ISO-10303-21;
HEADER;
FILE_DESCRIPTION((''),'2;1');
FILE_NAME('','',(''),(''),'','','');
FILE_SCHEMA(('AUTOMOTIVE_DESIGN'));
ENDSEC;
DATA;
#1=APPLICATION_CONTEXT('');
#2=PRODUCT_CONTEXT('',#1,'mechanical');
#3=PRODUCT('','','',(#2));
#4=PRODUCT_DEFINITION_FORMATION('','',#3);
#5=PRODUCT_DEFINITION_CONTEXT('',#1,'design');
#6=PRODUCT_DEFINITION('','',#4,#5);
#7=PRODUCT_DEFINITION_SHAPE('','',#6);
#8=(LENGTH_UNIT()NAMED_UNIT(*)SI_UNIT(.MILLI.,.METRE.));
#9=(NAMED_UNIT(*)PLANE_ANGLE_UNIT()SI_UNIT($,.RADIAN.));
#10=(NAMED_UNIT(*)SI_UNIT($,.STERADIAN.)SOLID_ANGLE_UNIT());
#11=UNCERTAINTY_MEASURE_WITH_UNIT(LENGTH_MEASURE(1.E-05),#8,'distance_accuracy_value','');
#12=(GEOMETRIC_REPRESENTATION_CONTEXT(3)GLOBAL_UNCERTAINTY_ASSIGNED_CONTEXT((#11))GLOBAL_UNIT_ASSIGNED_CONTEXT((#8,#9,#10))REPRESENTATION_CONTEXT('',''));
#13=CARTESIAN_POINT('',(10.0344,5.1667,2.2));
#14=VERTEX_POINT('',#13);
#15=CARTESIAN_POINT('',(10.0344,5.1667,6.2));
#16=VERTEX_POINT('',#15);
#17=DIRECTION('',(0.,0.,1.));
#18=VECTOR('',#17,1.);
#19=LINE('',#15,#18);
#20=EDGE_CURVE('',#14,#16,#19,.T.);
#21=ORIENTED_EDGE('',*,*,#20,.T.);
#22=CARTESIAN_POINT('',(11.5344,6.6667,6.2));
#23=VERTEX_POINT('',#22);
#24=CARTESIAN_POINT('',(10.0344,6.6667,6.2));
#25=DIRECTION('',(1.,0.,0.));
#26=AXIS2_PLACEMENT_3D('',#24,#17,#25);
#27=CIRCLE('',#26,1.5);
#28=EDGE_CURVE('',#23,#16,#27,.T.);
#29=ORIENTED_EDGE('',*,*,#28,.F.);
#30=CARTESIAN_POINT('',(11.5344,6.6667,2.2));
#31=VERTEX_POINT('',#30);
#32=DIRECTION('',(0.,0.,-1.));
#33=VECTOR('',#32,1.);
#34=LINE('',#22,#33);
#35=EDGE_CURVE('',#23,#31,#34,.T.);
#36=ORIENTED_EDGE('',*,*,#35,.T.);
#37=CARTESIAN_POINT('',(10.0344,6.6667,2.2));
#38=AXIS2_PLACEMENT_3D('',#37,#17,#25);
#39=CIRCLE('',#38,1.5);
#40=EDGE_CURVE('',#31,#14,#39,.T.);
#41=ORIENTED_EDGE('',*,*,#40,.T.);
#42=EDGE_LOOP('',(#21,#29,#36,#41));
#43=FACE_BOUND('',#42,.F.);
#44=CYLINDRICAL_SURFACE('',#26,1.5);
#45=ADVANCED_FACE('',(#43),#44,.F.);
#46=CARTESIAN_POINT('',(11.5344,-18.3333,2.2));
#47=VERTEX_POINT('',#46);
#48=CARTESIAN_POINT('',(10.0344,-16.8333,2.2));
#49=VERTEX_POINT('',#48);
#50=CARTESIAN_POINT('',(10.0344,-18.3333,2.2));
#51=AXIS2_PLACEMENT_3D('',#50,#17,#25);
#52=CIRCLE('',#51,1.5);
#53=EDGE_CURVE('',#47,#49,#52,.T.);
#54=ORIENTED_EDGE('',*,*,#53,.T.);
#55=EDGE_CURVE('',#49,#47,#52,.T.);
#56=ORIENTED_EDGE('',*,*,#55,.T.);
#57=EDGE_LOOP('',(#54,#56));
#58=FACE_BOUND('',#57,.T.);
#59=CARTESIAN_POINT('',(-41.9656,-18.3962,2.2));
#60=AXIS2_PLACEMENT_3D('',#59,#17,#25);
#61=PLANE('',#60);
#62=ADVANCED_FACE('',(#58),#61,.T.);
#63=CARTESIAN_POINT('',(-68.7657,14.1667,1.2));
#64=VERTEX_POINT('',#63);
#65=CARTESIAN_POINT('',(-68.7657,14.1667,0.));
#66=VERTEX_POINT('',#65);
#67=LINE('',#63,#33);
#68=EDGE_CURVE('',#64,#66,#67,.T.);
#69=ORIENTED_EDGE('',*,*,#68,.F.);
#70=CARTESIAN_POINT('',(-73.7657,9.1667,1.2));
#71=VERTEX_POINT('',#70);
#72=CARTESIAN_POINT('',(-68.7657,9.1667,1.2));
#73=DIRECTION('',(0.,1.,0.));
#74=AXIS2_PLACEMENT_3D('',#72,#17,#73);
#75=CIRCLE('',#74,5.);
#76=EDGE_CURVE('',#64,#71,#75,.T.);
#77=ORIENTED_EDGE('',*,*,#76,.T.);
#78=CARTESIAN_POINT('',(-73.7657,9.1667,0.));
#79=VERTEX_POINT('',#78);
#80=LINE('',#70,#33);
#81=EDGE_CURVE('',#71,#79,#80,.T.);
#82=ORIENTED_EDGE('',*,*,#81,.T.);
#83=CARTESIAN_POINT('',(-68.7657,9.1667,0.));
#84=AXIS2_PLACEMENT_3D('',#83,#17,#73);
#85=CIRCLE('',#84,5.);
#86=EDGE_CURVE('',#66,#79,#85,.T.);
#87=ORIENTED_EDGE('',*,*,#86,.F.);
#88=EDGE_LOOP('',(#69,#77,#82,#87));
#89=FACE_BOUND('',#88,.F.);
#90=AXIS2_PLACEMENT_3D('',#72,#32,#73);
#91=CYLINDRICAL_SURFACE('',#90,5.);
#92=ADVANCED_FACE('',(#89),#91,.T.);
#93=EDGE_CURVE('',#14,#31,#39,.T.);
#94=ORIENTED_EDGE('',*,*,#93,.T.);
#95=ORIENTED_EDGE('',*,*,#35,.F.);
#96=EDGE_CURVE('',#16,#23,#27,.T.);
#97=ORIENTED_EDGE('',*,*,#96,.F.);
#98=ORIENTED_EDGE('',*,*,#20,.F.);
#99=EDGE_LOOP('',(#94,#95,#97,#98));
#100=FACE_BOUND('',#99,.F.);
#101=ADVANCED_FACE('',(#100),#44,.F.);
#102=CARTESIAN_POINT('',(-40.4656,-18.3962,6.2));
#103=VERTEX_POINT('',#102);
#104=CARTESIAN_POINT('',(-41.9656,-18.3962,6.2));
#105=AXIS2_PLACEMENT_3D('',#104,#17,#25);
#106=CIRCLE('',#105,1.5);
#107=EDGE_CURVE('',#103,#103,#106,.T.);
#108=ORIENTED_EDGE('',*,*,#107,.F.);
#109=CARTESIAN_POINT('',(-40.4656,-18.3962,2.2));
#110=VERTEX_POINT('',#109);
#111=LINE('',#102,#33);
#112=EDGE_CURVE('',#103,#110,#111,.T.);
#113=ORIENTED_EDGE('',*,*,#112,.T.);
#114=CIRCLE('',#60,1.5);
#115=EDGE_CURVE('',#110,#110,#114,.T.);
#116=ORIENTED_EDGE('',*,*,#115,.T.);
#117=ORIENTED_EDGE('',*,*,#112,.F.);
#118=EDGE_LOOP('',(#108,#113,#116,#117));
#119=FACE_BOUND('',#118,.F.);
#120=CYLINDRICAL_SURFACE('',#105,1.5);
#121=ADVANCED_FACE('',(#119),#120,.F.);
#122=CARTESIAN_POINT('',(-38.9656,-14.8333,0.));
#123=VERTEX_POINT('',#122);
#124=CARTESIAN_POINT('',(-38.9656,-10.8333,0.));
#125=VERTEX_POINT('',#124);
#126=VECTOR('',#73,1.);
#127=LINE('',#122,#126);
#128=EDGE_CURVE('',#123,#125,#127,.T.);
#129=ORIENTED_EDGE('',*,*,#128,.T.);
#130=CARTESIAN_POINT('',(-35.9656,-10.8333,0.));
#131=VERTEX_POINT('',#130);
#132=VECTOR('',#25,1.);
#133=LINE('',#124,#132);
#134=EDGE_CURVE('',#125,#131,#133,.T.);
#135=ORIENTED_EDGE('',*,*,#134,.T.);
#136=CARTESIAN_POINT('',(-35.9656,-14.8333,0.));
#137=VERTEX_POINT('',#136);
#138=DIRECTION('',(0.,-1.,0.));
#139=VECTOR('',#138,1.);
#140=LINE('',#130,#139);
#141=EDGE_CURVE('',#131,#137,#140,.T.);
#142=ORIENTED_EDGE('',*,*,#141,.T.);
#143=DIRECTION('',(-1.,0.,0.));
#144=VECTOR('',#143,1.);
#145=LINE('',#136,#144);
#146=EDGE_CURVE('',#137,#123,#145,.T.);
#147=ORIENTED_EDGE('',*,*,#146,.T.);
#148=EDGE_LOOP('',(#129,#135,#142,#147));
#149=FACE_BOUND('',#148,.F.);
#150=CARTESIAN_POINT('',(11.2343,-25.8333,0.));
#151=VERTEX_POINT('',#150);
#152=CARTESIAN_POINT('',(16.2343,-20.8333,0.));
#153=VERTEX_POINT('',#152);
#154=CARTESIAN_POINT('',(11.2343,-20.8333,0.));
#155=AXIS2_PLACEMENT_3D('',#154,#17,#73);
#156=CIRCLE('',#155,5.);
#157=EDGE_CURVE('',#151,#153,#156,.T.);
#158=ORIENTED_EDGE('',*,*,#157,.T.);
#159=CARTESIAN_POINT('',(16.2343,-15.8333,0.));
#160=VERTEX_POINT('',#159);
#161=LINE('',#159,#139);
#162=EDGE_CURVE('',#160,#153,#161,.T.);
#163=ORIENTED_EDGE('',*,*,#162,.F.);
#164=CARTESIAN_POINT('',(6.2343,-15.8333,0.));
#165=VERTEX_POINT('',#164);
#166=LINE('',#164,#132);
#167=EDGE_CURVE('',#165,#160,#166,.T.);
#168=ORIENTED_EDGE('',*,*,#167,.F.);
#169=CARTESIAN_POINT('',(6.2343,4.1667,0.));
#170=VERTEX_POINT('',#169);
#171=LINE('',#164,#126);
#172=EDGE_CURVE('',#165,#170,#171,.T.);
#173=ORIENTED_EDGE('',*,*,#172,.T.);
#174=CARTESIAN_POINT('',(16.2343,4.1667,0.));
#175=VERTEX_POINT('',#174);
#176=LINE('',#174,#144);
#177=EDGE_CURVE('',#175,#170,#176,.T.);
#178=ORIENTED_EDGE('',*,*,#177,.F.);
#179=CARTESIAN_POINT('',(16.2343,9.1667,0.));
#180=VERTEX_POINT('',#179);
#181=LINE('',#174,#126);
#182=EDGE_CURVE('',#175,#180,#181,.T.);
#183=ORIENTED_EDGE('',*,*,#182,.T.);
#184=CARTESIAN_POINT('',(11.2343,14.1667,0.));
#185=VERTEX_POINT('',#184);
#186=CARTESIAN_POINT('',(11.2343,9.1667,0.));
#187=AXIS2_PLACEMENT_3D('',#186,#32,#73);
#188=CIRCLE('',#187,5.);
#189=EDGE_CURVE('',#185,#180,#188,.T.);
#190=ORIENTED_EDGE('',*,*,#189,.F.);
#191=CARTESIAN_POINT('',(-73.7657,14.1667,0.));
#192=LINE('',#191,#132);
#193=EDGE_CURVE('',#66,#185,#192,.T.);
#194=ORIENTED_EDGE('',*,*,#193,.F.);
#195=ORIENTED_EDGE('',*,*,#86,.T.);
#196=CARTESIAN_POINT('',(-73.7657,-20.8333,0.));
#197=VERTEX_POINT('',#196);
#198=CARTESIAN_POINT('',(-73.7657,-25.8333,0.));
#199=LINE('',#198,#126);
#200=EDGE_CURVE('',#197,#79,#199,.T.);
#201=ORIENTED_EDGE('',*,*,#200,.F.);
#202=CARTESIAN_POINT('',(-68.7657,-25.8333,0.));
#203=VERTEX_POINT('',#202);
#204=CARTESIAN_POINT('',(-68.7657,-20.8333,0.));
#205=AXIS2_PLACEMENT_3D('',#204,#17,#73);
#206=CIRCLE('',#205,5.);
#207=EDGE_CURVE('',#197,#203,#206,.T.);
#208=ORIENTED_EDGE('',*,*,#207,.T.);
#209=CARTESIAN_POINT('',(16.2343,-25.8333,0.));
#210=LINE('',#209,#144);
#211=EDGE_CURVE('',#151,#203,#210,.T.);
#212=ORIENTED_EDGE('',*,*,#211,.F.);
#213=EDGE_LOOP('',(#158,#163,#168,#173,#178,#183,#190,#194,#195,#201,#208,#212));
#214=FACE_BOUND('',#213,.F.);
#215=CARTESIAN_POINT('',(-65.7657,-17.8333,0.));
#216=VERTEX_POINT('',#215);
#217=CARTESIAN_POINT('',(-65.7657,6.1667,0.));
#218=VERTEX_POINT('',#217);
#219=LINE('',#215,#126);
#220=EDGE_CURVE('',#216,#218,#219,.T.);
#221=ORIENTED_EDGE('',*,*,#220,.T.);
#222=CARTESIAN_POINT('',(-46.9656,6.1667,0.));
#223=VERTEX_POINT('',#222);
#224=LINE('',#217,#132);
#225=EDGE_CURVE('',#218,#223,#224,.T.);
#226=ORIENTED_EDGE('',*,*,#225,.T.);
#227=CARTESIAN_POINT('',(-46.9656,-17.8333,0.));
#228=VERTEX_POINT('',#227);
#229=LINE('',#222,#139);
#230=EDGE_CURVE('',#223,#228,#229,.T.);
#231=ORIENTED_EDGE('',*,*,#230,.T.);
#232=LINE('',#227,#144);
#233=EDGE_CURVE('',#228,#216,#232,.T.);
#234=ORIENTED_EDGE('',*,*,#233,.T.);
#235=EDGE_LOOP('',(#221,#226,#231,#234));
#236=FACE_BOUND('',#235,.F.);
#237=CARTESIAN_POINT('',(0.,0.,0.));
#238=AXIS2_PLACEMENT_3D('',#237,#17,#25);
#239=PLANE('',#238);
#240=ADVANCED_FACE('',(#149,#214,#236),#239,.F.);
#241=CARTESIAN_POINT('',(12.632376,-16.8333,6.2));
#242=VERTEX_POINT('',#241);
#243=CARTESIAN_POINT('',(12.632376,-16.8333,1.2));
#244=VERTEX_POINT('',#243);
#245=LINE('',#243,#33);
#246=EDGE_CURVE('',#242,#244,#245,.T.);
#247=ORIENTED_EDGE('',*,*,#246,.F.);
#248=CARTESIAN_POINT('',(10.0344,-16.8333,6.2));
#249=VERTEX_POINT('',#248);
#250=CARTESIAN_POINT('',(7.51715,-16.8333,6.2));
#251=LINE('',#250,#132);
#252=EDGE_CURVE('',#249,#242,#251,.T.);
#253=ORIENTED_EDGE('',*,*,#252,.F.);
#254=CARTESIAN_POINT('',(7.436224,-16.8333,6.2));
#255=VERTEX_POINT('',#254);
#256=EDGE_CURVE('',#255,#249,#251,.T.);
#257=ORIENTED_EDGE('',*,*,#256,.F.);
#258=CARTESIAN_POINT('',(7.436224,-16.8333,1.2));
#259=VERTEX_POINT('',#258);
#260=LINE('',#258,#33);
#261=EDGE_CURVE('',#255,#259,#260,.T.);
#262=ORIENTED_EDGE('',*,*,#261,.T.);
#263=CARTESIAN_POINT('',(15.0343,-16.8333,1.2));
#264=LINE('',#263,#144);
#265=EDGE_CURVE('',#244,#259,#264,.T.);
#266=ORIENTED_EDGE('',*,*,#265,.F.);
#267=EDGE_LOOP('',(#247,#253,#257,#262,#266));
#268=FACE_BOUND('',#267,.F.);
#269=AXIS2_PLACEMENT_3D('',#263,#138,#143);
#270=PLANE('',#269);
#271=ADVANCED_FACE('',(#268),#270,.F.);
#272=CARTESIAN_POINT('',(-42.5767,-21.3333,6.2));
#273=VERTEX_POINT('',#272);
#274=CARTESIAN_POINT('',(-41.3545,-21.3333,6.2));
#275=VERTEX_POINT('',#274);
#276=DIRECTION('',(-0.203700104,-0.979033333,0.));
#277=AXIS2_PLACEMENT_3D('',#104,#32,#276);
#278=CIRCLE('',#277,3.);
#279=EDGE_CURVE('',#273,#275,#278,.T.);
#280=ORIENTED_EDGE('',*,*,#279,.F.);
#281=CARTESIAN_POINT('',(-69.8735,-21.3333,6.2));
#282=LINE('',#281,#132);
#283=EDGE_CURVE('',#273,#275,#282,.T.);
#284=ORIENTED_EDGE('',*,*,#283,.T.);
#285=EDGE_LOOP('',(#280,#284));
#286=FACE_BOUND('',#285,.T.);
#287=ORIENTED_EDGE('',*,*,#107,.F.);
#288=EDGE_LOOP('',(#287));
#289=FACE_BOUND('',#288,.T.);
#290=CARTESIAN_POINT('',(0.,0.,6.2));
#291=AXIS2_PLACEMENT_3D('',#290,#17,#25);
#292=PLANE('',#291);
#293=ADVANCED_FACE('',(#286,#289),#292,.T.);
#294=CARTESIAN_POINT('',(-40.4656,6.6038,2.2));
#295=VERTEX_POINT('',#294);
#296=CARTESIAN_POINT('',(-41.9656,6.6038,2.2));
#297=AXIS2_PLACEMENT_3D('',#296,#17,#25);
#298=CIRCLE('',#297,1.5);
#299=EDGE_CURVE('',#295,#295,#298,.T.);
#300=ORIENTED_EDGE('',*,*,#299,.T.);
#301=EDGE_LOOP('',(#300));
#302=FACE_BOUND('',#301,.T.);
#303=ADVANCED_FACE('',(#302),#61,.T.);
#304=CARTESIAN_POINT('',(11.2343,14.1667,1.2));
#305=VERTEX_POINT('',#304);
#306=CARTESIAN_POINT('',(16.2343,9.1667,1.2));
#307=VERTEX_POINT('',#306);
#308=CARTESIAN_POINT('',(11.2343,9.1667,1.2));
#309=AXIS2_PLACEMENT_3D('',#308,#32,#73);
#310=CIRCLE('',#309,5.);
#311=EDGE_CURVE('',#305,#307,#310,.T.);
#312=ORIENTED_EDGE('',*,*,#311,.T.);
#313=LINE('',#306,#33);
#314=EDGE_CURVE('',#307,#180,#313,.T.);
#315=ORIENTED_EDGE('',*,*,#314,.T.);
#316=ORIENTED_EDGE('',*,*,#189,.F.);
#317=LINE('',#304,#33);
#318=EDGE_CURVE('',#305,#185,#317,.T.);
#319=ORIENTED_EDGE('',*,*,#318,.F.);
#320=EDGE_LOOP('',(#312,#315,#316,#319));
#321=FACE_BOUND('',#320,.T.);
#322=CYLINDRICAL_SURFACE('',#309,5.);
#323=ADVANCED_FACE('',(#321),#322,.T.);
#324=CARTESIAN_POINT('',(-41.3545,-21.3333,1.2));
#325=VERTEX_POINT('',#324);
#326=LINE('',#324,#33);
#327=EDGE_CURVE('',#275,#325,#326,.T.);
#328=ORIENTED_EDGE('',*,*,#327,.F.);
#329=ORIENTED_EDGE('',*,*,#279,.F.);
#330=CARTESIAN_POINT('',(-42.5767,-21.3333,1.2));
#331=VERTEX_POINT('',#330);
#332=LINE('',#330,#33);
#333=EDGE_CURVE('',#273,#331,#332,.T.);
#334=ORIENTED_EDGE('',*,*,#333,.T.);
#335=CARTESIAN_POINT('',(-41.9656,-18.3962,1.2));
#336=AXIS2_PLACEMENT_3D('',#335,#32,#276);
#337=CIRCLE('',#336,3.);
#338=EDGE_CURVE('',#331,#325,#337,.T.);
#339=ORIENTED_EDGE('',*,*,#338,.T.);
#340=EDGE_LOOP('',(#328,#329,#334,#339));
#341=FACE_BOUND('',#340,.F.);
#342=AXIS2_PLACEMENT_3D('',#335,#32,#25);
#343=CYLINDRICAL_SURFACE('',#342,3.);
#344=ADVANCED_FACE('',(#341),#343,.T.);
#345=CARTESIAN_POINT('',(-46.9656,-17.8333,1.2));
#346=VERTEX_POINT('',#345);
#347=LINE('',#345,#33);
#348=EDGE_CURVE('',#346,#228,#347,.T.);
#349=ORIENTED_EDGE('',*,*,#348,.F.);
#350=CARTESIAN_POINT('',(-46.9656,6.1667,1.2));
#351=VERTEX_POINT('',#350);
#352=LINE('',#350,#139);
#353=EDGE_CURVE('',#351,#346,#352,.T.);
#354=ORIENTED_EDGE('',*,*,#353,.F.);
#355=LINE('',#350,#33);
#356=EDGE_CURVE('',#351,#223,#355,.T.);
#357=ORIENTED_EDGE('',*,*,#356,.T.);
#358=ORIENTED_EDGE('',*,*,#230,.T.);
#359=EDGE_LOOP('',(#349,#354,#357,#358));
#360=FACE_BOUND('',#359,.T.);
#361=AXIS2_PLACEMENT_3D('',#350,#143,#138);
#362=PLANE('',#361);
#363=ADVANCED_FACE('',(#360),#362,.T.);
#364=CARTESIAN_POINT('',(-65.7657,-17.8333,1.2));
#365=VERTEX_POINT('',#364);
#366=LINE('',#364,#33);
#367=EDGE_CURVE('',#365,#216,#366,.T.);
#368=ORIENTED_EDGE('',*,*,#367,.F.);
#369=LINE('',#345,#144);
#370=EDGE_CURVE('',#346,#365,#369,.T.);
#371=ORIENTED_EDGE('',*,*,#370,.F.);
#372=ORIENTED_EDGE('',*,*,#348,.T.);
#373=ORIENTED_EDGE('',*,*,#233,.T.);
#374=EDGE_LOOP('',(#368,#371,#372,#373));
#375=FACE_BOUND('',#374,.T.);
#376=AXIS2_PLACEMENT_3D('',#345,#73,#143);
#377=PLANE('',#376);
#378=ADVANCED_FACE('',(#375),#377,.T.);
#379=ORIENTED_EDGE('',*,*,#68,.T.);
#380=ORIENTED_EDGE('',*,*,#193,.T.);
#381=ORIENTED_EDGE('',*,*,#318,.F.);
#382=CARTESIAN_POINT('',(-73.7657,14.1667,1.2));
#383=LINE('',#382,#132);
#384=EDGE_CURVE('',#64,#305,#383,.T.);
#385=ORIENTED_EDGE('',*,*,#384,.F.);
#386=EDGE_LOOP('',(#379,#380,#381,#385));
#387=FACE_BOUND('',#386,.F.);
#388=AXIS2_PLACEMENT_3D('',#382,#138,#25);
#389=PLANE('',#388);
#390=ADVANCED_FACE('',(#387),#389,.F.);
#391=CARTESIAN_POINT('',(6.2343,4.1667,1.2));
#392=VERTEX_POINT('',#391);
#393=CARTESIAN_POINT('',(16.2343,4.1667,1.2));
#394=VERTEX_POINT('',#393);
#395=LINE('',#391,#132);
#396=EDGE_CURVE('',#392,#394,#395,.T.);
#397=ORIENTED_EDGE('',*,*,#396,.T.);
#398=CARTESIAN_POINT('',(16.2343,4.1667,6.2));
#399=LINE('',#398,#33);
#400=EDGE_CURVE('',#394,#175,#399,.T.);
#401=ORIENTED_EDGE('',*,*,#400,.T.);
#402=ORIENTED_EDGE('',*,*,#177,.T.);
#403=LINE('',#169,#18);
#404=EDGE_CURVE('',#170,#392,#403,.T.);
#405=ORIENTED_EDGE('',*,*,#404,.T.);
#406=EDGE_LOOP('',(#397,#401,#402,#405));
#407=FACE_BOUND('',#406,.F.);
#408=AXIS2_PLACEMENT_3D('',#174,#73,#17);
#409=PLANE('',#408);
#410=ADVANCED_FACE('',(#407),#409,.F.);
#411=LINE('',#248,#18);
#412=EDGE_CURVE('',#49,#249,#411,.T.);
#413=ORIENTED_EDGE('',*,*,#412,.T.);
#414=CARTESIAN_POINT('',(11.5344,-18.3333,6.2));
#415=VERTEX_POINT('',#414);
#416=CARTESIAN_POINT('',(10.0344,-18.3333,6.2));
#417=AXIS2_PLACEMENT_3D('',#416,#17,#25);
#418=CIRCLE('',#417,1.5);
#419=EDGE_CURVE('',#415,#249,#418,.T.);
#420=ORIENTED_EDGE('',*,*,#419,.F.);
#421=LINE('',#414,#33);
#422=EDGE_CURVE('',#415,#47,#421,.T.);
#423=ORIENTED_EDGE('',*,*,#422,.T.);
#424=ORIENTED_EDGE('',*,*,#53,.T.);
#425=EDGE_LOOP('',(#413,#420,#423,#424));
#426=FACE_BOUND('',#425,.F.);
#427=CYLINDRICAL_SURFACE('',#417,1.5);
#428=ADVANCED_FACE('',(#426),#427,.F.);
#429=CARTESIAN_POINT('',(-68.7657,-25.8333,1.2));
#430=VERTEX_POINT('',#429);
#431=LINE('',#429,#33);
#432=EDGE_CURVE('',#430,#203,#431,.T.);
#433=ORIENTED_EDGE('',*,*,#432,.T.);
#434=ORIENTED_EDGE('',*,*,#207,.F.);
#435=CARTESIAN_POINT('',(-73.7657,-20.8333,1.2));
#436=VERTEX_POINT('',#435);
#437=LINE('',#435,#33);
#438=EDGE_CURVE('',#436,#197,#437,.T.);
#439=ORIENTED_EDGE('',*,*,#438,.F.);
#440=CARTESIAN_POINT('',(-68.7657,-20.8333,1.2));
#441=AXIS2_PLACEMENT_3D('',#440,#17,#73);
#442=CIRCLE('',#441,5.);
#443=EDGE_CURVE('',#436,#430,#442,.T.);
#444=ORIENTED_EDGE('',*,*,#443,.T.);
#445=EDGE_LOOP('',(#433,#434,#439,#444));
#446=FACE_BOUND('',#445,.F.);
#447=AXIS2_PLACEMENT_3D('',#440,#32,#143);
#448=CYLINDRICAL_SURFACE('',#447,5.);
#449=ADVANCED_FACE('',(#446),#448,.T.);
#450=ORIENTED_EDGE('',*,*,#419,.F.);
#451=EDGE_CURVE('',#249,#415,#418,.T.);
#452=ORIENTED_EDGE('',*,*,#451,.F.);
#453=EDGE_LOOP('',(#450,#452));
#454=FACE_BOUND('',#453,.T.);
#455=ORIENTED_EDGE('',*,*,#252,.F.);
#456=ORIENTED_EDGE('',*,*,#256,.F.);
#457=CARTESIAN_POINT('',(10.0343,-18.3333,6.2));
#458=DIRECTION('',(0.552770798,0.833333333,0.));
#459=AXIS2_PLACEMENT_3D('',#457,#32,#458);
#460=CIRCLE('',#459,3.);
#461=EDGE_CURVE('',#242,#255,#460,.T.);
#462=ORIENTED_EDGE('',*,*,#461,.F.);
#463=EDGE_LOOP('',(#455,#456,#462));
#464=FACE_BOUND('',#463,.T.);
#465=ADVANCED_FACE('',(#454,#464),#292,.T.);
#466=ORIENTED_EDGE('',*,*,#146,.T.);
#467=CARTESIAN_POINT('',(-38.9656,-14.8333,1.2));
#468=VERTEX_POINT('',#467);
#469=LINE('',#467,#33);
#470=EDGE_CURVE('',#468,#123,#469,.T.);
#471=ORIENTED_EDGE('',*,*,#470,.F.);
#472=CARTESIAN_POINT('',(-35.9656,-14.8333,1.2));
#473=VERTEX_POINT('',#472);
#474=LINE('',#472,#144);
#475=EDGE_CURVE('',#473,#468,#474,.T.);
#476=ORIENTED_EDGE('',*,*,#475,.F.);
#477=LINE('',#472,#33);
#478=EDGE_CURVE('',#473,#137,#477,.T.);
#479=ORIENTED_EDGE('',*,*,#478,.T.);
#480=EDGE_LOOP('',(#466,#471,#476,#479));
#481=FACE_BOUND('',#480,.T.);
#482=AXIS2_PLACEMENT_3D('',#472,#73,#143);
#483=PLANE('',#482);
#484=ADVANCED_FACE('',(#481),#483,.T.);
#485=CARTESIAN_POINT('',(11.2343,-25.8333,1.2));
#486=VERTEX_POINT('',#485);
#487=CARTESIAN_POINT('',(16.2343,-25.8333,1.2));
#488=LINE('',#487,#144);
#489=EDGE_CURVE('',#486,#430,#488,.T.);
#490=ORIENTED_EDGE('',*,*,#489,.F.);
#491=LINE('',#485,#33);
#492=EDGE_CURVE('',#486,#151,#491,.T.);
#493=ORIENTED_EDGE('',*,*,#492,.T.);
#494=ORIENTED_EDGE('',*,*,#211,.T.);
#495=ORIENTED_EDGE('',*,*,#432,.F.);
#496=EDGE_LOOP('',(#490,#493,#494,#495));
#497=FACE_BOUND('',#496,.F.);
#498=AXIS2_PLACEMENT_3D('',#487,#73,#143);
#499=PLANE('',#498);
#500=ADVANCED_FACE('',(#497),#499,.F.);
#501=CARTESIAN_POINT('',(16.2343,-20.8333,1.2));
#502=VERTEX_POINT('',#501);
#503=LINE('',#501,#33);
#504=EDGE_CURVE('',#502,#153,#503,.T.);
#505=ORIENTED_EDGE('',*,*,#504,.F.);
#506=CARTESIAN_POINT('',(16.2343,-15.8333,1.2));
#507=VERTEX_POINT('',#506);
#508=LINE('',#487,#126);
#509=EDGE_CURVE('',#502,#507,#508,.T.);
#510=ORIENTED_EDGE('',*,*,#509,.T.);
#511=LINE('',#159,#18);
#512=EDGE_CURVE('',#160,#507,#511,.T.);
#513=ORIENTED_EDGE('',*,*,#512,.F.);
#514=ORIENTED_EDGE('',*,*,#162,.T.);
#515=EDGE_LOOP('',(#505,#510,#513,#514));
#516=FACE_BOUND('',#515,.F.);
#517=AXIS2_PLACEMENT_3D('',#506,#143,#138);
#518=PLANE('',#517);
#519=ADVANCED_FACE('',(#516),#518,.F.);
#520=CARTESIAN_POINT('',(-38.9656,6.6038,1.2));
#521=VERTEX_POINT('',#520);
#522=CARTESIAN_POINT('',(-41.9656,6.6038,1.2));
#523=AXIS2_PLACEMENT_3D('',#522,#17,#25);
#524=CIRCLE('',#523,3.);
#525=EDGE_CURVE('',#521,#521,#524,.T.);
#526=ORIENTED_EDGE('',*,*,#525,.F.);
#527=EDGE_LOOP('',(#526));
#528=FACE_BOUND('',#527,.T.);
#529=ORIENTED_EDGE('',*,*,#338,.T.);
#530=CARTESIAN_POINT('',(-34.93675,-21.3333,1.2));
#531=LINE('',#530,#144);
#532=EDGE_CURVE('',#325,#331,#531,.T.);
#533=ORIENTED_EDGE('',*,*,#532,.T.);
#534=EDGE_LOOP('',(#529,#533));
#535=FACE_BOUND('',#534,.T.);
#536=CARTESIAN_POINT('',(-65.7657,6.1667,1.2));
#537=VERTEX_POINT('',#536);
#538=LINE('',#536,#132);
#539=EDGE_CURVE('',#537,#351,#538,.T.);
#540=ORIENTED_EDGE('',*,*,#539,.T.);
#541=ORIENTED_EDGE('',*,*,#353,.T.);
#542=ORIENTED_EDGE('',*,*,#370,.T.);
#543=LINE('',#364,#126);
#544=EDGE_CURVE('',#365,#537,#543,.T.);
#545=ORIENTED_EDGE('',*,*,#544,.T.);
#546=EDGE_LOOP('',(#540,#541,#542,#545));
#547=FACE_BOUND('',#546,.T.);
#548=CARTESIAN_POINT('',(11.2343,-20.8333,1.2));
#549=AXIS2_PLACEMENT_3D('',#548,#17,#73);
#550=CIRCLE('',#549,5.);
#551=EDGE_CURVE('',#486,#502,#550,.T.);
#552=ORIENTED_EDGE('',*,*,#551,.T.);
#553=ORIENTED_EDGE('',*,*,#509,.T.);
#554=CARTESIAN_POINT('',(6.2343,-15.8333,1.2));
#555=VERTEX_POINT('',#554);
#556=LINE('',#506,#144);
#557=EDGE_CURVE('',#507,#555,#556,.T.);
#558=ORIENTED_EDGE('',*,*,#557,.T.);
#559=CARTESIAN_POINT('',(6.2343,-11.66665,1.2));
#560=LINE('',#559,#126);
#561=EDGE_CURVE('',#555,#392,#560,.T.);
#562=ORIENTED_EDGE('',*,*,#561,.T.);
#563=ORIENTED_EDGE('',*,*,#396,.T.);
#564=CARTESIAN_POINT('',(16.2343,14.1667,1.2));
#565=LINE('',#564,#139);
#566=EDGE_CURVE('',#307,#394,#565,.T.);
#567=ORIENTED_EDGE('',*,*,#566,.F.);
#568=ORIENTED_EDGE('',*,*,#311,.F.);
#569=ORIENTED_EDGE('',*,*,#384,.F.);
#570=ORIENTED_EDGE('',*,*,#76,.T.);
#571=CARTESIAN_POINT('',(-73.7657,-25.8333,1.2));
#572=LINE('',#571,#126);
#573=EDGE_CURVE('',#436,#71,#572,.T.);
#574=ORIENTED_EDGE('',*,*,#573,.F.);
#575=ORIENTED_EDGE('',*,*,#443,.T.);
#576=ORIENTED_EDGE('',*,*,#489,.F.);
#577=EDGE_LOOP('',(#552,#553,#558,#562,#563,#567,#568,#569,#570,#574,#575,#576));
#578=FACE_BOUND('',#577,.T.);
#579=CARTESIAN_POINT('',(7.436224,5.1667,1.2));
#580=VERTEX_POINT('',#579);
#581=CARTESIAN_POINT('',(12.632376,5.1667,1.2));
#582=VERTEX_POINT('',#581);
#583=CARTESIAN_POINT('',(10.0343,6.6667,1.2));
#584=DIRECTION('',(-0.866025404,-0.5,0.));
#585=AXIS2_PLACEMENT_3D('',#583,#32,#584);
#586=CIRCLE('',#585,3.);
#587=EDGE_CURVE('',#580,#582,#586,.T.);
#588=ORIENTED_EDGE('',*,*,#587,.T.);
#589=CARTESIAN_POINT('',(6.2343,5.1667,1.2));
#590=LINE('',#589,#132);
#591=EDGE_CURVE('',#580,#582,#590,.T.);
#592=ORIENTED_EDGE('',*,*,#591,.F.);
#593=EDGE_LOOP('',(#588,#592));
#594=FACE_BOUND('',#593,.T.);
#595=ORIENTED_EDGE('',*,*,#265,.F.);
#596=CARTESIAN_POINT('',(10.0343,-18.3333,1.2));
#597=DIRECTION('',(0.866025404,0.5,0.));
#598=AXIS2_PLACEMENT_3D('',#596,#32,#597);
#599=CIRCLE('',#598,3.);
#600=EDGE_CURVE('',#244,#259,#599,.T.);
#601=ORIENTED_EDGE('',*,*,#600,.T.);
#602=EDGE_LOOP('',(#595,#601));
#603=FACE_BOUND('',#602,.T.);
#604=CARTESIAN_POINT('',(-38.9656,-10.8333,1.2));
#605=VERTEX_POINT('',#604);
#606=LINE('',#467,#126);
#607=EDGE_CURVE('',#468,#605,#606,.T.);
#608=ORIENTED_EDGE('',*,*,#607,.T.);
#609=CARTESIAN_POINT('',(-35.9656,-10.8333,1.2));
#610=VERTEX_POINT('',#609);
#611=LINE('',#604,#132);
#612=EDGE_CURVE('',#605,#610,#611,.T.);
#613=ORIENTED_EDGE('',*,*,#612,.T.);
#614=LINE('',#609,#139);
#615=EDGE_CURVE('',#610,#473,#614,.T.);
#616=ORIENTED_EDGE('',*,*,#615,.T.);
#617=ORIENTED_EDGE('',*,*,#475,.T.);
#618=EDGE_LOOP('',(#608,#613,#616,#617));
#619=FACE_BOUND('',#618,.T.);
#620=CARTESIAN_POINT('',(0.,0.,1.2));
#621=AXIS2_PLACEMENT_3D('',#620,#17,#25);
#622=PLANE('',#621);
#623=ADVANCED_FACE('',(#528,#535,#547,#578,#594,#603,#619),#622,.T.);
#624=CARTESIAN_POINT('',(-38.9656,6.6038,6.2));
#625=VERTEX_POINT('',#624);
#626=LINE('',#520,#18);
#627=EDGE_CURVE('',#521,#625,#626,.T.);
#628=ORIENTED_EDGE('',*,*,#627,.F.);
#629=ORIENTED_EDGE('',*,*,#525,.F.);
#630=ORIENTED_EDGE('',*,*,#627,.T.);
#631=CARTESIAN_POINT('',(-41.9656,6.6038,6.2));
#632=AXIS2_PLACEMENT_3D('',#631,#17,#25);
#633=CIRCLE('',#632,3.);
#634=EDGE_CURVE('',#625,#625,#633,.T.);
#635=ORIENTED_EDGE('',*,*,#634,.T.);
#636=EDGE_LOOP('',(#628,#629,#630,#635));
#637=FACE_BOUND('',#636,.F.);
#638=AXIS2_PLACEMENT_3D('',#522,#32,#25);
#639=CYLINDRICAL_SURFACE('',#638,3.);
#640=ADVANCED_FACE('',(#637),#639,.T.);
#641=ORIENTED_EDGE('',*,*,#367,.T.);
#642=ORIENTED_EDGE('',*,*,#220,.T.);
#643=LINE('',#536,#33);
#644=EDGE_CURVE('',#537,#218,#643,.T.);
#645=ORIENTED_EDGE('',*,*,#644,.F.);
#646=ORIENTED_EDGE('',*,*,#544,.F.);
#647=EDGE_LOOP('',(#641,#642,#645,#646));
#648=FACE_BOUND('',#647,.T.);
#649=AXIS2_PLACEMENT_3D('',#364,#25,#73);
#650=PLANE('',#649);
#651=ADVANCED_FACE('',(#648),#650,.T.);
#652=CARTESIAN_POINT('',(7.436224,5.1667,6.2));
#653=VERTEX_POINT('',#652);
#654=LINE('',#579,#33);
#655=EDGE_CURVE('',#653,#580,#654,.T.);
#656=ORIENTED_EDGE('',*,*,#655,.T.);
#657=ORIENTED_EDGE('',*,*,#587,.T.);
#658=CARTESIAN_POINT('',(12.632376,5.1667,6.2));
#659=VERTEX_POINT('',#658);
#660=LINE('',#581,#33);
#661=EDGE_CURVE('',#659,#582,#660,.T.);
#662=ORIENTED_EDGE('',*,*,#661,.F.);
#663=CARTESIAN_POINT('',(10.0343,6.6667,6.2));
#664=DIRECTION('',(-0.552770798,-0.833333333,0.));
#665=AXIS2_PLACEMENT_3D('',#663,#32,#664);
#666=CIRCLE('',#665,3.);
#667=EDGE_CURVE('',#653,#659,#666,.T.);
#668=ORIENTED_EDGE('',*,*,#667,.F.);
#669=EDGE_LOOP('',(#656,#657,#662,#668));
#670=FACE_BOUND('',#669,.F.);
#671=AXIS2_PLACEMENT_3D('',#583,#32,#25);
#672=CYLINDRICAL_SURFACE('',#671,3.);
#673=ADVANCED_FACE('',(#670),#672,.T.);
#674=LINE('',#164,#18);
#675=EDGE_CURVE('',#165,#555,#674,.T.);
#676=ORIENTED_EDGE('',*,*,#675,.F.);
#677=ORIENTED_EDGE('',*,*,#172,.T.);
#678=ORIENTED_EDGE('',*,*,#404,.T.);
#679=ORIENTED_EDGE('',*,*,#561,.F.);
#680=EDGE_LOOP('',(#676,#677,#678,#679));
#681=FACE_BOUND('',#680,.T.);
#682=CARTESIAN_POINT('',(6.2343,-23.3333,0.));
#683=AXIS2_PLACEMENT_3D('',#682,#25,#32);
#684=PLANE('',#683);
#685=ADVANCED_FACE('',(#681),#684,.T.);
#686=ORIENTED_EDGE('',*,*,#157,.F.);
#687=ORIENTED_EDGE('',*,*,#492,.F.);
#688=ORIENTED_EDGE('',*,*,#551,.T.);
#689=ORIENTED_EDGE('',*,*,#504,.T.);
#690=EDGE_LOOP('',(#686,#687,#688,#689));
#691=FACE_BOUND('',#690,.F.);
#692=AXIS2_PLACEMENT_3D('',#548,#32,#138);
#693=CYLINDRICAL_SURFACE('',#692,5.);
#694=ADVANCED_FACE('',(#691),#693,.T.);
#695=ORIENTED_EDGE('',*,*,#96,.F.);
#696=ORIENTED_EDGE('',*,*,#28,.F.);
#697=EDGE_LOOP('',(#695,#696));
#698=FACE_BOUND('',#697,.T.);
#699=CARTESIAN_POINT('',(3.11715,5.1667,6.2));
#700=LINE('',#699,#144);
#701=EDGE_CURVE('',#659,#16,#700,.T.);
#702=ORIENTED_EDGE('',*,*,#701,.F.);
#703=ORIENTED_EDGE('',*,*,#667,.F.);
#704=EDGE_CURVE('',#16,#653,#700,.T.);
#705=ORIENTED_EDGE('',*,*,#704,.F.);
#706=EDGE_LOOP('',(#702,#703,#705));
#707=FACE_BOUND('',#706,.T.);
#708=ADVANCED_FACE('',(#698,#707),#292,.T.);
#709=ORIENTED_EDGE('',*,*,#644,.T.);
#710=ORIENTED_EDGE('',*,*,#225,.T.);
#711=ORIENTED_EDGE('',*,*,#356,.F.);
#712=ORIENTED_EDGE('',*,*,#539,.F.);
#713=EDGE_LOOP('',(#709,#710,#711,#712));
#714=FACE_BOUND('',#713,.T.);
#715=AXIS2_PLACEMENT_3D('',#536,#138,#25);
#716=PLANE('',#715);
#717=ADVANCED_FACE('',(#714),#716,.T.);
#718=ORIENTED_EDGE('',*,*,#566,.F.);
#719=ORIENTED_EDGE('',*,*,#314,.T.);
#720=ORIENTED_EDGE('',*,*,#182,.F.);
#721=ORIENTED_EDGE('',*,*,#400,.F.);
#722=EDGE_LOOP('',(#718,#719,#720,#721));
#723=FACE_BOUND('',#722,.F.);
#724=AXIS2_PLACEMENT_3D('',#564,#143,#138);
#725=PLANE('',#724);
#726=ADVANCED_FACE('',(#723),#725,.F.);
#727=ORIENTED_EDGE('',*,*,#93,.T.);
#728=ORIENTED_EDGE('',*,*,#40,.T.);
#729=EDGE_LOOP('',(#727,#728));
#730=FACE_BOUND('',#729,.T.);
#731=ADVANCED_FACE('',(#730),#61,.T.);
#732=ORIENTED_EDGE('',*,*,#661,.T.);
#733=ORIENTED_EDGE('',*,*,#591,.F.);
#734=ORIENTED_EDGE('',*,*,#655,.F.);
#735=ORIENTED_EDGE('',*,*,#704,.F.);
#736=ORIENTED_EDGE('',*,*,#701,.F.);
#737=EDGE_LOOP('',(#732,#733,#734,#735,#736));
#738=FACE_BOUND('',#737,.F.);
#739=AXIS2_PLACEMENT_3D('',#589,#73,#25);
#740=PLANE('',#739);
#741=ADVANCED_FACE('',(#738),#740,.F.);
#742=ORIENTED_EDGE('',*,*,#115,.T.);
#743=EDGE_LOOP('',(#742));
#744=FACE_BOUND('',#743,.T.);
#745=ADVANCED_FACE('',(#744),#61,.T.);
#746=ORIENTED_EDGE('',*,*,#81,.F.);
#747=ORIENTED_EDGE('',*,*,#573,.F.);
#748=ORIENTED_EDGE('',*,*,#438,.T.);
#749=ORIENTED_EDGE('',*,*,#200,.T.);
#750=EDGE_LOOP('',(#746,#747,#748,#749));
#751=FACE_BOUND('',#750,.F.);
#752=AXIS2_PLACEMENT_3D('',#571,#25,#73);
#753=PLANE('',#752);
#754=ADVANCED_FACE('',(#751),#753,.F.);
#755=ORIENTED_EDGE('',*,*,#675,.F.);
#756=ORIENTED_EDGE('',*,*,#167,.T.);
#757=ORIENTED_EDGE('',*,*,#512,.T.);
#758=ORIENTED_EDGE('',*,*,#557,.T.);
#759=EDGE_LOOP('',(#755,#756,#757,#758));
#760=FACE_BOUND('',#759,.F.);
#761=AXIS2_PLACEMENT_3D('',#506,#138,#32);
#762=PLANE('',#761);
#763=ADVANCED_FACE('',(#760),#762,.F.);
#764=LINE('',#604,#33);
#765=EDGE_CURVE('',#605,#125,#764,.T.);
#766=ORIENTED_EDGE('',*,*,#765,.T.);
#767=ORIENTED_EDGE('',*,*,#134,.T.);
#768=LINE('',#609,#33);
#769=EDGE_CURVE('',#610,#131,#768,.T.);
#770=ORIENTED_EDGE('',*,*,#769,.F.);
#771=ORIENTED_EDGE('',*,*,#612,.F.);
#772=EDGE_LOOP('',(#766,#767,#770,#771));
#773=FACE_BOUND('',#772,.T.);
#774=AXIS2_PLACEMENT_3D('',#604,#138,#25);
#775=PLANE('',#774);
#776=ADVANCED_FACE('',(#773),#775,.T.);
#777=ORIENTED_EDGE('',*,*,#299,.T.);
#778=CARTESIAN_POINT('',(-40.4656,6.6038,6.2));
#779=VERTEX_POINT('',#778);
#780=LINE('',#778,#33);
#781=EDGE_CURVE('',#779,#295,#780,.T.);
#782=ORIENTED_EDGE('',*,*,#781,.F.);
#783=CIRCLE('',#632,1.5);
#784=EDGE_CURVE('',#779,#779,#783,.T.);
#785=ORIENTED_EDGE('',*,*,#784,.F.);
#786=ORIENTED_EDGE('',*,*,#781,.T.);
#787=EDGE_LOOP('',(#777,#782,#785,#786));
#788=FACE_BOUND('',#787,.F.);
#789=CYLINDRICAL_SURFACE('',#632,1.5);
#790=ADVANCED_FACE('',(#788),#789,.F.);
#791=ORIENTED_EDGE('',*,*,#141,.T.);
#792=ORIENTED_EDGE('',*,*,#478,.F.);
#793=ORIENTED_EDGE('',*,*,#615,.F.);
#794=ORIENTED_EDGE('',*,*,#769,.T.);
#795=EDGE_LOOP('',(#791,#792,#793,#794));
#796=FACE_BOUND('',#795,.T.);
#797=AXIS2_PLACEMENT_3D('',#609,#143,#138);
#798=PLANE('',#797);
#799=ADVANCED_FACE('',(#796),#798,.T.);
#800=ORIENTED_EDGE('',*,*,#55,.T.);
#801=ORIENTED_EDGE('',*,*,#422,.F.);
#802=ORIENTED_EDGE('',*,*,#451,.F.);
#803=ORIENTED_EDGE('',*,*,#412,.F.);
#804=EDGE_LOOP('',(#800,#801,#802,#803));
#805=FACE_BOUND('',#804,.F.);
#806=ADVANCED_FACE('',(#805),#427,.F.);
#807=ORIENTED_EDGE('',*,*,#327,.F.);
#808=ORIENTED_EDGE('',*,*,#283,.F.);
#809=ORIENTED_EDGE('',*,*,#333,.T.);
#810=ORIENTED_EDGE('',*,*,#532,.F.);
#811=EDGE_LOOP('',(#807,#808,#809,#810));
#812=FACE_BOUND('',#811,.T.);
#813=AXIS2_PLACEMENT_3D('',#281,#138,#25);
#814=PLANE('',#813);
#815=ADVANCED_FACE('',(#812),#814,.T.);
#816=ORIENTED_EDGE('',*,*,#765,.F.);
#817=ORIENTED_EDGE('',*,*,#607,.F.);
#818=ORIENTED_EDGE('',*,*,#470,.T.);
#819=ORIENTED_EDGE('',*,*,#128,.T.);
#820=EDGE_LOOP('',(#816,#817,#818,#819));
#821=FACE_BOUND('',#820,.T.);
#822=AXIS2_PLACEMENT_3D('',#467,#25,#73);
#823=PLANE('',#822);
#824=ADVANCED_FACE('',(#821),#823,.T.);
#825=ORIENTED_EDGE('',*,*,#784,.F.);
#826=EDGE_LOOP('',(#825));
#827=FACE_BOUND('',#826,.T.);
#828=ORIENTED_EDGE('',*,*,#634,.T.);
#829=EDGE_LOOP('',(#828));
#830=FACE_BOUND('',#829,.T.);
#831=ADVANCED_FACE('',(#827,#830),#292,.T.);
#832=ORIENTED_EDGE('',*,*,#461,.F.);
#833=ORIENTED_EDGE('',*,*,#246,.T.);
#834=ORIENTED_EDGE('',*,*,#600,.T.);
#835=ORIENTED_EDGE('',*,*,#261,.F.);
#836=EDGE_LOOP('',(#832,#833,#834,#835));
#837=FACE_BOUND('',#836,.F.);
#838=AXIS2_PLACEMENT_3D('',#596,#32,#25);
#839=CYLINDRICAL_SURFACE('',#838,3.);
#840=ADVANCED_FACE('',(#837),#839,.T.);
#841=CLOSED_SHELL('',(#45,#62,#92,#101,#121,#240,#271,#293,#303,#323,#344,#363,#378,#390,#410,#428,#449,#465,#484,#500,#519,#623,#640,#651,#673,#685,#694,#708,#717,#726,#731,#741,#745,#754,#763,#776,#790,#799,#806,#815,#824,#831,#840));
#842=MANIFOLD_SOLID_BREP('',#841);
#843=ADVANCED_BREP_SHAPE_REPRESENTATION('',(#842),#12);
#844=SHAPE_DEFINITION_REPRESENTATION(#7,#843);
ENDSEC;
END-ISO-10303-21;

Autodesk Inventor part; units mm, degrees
ref_plane "YZ Plane" through (0, 0, 0) normal (1, 0, 0) x (0, 1, 0)
ref_plane "XZ Plane" through (0, 0, 0) normal (0, 1, 0) x (-1, 0, 0)
ref_plane "XY Plane" through (0, 0, 0) normal (0, 0, 1) x (1, 0, 0)
sketch "Sketch1" plane through (0, 0, 0) normal (0, 0, 1) x (1, 0, 0)
  line L0 (-66.7657, 11.6667) -> (16.2343, 11.6667)
  line L1 (16.2343, 11.6667) -> (16.2343, -23.3333)
  line L2 (16.2343, -23.3333) -> (-66.7657, -23.3333)
  line L3 (-66.7657, -23.3333) -> (-66.7657, 11.6667)
  point P0 (0, 0)
  dimension "d0" = 35
  dimension "d1" = 83
extrude "Extrusion1" add sketch "Sketch1" along normal blind 1.2
sketch "Sketch2" plane through (0, 0, 1.2) normal (0, 0, 1) x (1, 0, 0)
  line L0 (16.2343, -23.3333) -> (16.2343, 11.6667) projected
  line L1 (-66.7657, 11.6667) -> (16.2343, 11.6667)
  line L2 (16.2343, 11.6667) -> (16.2343, 9.8667)
  line L3 (16.2343, 9.8667) -> (-66.7657, 9.8667)
  line L4 (-66.7657, 9.8667) -> (-66.7657, 11.6667)
  line L5 (-66.7657, 11.6667) -> (-66.7657, -23.3333) projected
  line L6 (16.2343, -23.3333) -> (-66.7657, -23.3333)
  line L7 (-66.7657, -23.3333) -> (-66.7657, -21.5333)
  line L8 (-66.7657, -21.5333) -> (16.2343, -21.5333)
  line L9 (16.2343, -21.5333) -> (16.2343, -23.3333)
  line L10 (-66.7657, 9.8667) -> (-65.5657, 9.8667)
  line L11 (-65.5657, 9.8667) -> (-65.5657, -21.5333)
  line L12 (-65.5657, -21.5333) -> (-66.7657, -21.5333)
  line L13 (-66.7657, -21.5333) -> (-66.7657, 9.8667)
  line L14 (16.2343, 9.8667) -> (15.0343, 9.8667)
  line L15 (15.0343, 9.8667) -> (15.0343, -21.5333)
  line L16 (15.0343, -21.5333) -> (16.2343, -21.5333)
  line L17 (16.2343, -21.5333) -> (16.2343, 9.8667)
  line L18 (-66.7657, 11.6667) -> (-65.5657, 11.6667)
  line L19 (-65.5657, 11.6667) -> (-65.5657, -21.5333)
  line L20 (-65.5657, -21.5333) -> (-66.7657, -21.5333)
  line L21 (-66.7657, -21.5333) -> (-66.7657, 11.6667)
  line L22 (-66.7657, 11.6667) -> (16.2343, 11.6667)
  line L23 (16.2343, 11.6667) -> (16.2343, 9.8667)
  line L24 (16.2343, 9.8667) -> (-66.7657, 9.8667)
  line L25 (-66.7657, 9.8667) -> (-66.7657, 11.6667)
  point P0 (0, 0)
  dimension "d4" = 1.8
  dimension "d5" = 1.8
  dimension "d6" = 1.2
  dimension "d7" = 1.2
extrude "Extrusion2" add sketch "Sketch2" along normal blind 30 contours L6 L5 L8 L0 | L8 L15 L3 L0 | L3 L19 L1 L0 | L5 L3 L11 L8 | L4 L1 L19 L3
sketch "Sketch3" plane through (0, 0, 31.2) normal (0, 0, 1) x (1, 0, 0)
  point P0 (0, 0)
sketch "Sketch4" plane through (16.2343, -23.3333, 0) normal (1, 0, 0) x (0, 0, -1)
  line L0 (-1.2, 33.2) -> (-1.2, 1.8) projected
  line L1 (-1.2, 7.5) -> (-6.2, 7.5)
  line L2 (-6.2, 7.5) -> (-6.2, 27.5)
  line L3 (-6.2, 27.5) -> (-1.2, 27.5)
  line L4 (-1.2, 27.5) -> (-1.2, 7.5)
  line L5 (-1.2, 1.8) -> (-31.2, 1.8) projected
  line L6 (-1.2, 33.2) -> (-31.2, 33.2) projected
  line L7 (-6.2, 7.5) -> (0, 7.5)
  line L8 (0, 7.5) -> (0, 27.5)
  line L9 (0, 27.5) -> (-6.2, 27.5)
  line L10 (-6.2, 27.5) -> (-6.2, 7.5)
  line L11 (0, 35) -> (0, 0) projected
  point P0 (0, 23.3333)
  dimension "d10" = 20
  dimension "d11" = 5
  dimension "d12" = 5.7
  dimension "d13" = 5.7
extrude "Extrusion3" cut sketch "Sketch4" against normal blind 10
fillet "Fillet1" radius 2 8 edges at (-66.7657, 11.6667, 15.6) (-65.5657, 9.8667, 16.2) (-66.7657, -23.3333, 15.6) (-65.5657, -21.5333, 16.2) (15.0343, 9.8667, 16.2) (16.2343, 11.6667, 15.6) (16.2343, -23.3333, 15.6) (15.0343, -21.5333, 16.2)
sketch "Sketch5" plane through (0, 0, 1.2) normal (0, 0, 1) x (1, 0, 0)
  circle A0 centre (10.0343, 6.6667) radius 1.5
  circle A1 centre (10.0343, -18.3333) radius 1.5
  line L0 (15.0343, 7.8667) -> (15.0343, -19.5333) projected
  line L1 (13.0343, -21.5333) -> (-63.5657, -21.5333) projected
  line L2 (-63.5657, 9.8667) -> (13.0343, 9.8667) projected
  point P0 (0, 0)
  dimension "d17" = 3
  dimension "d18" = 3
  dimension "d19" = 25
  dimension "d20" = 5
  dimension "d21" = 5
  dimension "d22" = 3.2
  dimension "d23" = 3.2
extrude "Extrusion4" add sketch "Sketch5" along normal blind 5
sketch "Sketch6" plane through (0, 0, 1.2) normal (0, 0, 1) x (1, 0, 0)
  circle A0 centre (-41.9656, -18.3962) radius 1.5
  circle A1 centre (-41.9656, 6.6038) radius 1.5
  circle A2 centre (10.0343, 6.6667) radius 1.5 projected
  circle A3 centre (10.0343, -18.3333) radius 1.5 projected
  point P0 (0, 0)
  dimension "d26" = 3
  dimension "d27" = 3
  dimension "d28" = 25
  dimension "d29" = 52
  dimension "d30" = 52
extrude "Extrusion5" add sketch "Sketch6" along normal blind 5 contours A0 | A1
sketch "Sketch7" plane through (-41.9656, 6.6038, 6.2) normal (0, 0, 1) x (1, 0, 0)
  point P0 (41.9656, -6.6038)
sketch "Sketch8" plane through (0, 0, 1.2) normal (0, 0, 1) x (1, 0, 0)
  circle A0 centre (-41.9656, -18.3962) radius 1.5 projected
  circle A1 centre (-41.9656, -18.3962) radius 3
  circle A2 centre (-41.9656, 6.6038) radius 1.5 projected
  circle A3 centre (-41.9656, 6.6038) radius 3
  circle A4 centre (10.0343, -18.3333) radius 1.5 projected
  circle A5 centre (10.0343, -18.3333) radius 3
  circle A6 centre (10.0343, 6.6667) radius 1.5 projected
  circle A7 centre (10.0343, 6.6667) radius 3
  point P0 (0, 0)
  dimension "d33" = 6
  dimension "d34" = 6
  dimension "d35" = 6
  dimension "d36" = 6
extrude "Extrusion6" add sketch "Sketch8" along normal blind 5
sketch "Sketch9" plane through (0, 0, 1.2) normal (0, 0, 1) x (1, 0, 0)
  arc A0 (8.376, -15.8333) -> (11.6926, -15.8333) centre (10.0343, -18.3333) ccw projected
  circle A1 centre (10.0343, -18.3333) radius 3
  arc A2 (11.6926, 4.1667) -> (8.376, 4.1667) centre (10.0343, 6.6667) ccw projected
  circle A3 centre (10.0343, 6.6667) radius 3
  point P0 (0, 0)
  dimension "d39" = 6
  dimension "d40" = 6
extrude "Extrusion7" add sketch "Sketch9" against normal blind 1.2
sketch "Sketch10" plane through (-41.9656, -18.3962, 6.2) normal (0, 0, 1) x (1, 0, 0)
  circle A0 centre (0, 0) radius 3 projected
  circle A1 centre (0, 0) radius 1.5
  circle A2 centre (0, 25) radius 3 projected
  circle A3 centre (0, 25) radius 1.5
  circle A4 centre (52, 0.0629) radius 3 projected
  circle A5 centre (52, 0.0629) radius 1.5
  circle A6 centre (52, 25.0629) radius 3 projected
  circle A7 centre (52, 25.0629) radius 1.5
  point P0 (41.9656, 18.3962)
  dimension "d43" = 3
  dimension "d44" = 3
  dimension "d45" = 3
  dimension "d46" = 3
extrude "Extrusion8" cut sketch "Sketch10" against normal blind 4 contours A1 | A3 | A5 | A7
thread "Thread1" size "M3x0.5" class "6H" standard "ANSI Metric M Profile" full length
thread "Thread2" size "M3x0.5" class "6H" standard "ANSI Metric M Profile" full length
thread "Thread3" size "M3x0.5" class "6H" standard "ANSI Metric M Profile" full length
thread "Thread4" size "M3x0.5" class "6H" standard "ANSI Metric M Profile" full length
sketch "Sketch11" plane through (0, 0, 31.2) normal (0, 0, 1) x (1, 0, 0)
  arc A0 (-64.7657, 11.6667) -> (-66.7657, 9.6667) centre (-64.7657, 9.6667) ccw projected
  line L0 (-66.7657, 9.6667) -> (16.2343, 9.6667)
  line L1 (16.2343, 9.6667) -> (16.2343, 14.6667)
  line L2 (16.2343, 14.6667) -> (-66.7657, 14.6667)
  line L3 (-66.7657, 14.6667) -> (-66.7657, 9.6667)
  line L4 (16.2343, -21.3333) -> (-66.7657, -21.3333)
  line L5 (-66.7657, -21.3333) -> (-66.7657, -26.3333)
  line L6 (-66.7657, -26.3333) -> (16.2343, -26.3333)
  line L7 (16.2343, -26.3333) -> (16.2343, -21.3333)
  point P0 (0, 0)
  dimension "d57" = 5
  dimension "d58" = 5
  dimension "d59" = 83
extrude "Extrusion9" add sketch "Sketch11" against normal blind 31.2
fillet "Fillet2" radius 2 4 edges at (16.2343, -26.3333, 15.6) (16.2343, 14.6667, 15.6) (-66.7657, 14.6667, 15.6) (-66.7657, -26.3333, 15.6)
sketch "Sketch12" plane through (0, 0, 31.2) normal (0, 0, 1) x (1, 0, 0)
  line L0 (14.2343, -26.3333) -> (-64.7657, -26.3333) projected
  line L1 (8.2343, -26.3333) -> (-58.7657, -26.3333)
  line L2 (-58.7657, -26.3333) -> (-58.7657, -23.1333)
  line L3 (-58.7657, -23.1333) -> (8.2343, -23.1333)
  line L4 (8.2343, -23.1333) -> (8.2343, -26.3333)
  line L5 (-64.7657, 14.6667) -> (14.2343, 14.6667) projected
  line L6 (8.2343, 14.6667) -> (-58.7657, 14.6667)
  line L7 (-58.7657, 14.6667) -> (-58.7657, 11.4667)
  line L8 (-58.7657, 11.4667) -> (8.2343, 11.4667)
  line L9 (8.2343, 11.4667) -> (8.2343, 14.6667)
  line L10 (16.2343, -24.3333) -> (16.2343, 12.6667) projected
  line L11 (-66.7657, 12.6667) -> (-66.7657, -24.3333) projected
  line L12 (13.9061, -21.3333) -> (-64.4375, -21.3333) projected
  line L13 (10.0343, 9.6667) -> (-64.4375, 9.6667) projected
  point P0 (0, 0)
  dimension "d63" = 8
  dimension "d64" = 8
  dimension "d65" = 1.8
  dimension "d66" = 1.8
extrude "Extrusion10" cut sketch "Sketch12" against normal blind 31.2
fillet "Fillet3" radius 2 4 edges at (8.2343, -26.3333, 15.6) (-58.7657, -26.3333, 15.6) (8.2343, 14.6667, 15.6) (-58.7657, 14.6667, 15.6)
sketch "Sketch13" plane through (0, 0, 31.2) normal (0, 0, 1) x (1, 0, 0)
  line L0 (14.2343, -26.3333) -> (10.2343, -26.3333) projected
  circle A0 centre (12.2343, -23.9333) radius 1.5
  circle A1 centre (-62.7657, -23.9333) radius 1.5
  line L1 (-64.7657, -26.3333) -> (-60.7657, -26.3333) projected
  circle A2 centre (12.2343, 12.2667) radius 1.5
  circle A3 centre (-62.7657, 12.2667) radius 1.5
  line L2 (-66.7657, 12.6667) -> (-66.7657, -24.3333) projected
  line L3 (-60.7657, 14.6667) -> (-64.7657, 14.6667) projected
  line L4 (16.2343, -24.3333) -> (16.2343, 12.6667) projected
  line L5 (14.2343, 14.6667) -> (10.2343, 14.6667) projected
  line L6 (8.2343, -23.1333) -> (8.2343, -24.3333) projected
  point P0 (0, 0)
  dimension "d70" = 2.4
  dimension "d71" = 3
  dimension "d72" = 3
  dimension "d73" = 2.4
  dimension "d74" = 3
  dimension "d75" = 3
  dimension "d76" = 4
  dimension "d77" = 4
  dimension "d78" = 2.4
  dimension "d79" = 4
  dimension "d80" = 2.4
  dimension "d81" = 4
hole "Hole1" at (12.2343, -23.9333, 31.2) at (12.2343, 12.2667, 31.2) at (-62.7657, -23.9333, 31.2) at (-62.7657, 12.2667, 31.2) direction (0, 0, -1) diameter 3 depth 5 tip angle 118
sketch "Sketch14" plane through (0, 0, 31.2) normal (0, 0, 1) x (1, 0, 0)
  line L0 (-68.9331, 15.611) -> (20.031, 15.611)
  line L1 (20.031, 15.611) -> (20.031, -27.6485)
  line L2 (20.031, -27.6485) -> (-68.9331, -27.6485)
  line L3 (-68.9331, -27.6485) -> (-68.9331, 15.611)
  point P0 (0, 0)
extrude "Extrusion11" cut sketch "Sketch14" against normal blind 25
sketch "Sketch15" plane through (0, 0, 6.2) normal (0, 0, 1) x (1, 0, 0)
  line L0 (-73.259, 21.6297) -> (22.194, 21.6297)
  line L1 (22.194, 21.6297) -> (22.194, 9.6667)
  line L2 (22.194, 9.6667) -> (-73.259, 9.6667)
  line L3 (-73.259, 9.6667) -> (-73.259, 21.6297)
  line L4 (-69.8735, -21.3333) -> (26.0497, -21.3333)
  line L5 (26.0497, -21.3333) -> (26.0497, -30.3757)
  line L6 (26.0497, -30.3757) -> (-69.8735, -30.3757)
  line L7 (-69.8735, -30.3757) -> (-69.8735, -21.3333)
  line L8 (10.0343, 9.6667) -> (-64.4375, 9.6667) projected
  line L9 (-41.3548, -21.3333) -> (10.0343, -21.3333) projected
  point P0 (0, 0)
extrude "Extrusion12" cut sketch "Sketch15" against normal blind 25
sketch "Sketch16" plane through (0, 0, 1.2) normal (0, 0, 1) x (1, 0, 0)
  line L0 (6.2343, 4.1667) -> (16.2343, 4.1667)
  line L1 (16.2343, 4.1667) -> (16.2343, -15.8333)
  line L2 (16.2343, -15.8333) -> (6.2343, -15.8333)
  line L3 (6.2343, -15.8333) -> (6.2343, 4.1667)
  point P0 (0, 0)
extrude "Extrusion13" cut sketch "Sketch16" against normal blind 25
sketch "Sketch17" plane through (0, 0, 1.2) normal (0, 0, 1) x (1, 0, 0)
  line L0 (6.2343, 4.1667) -> (16.2343, 4.1667)
  line L1 (16.2343, 4.1667) -> (16.2343, -15.8333)
  line L2 (16.2343, -15.8333) -> (6.2343, -15.8333)
  line L3 (6.2343, -15.8333) -> (6.2343, 4.1667)
  point P0 (0, 0)
extrude "Extrusion14" cut sketch "Sketch17" along normal blind 25
sketch "Sketch18" plane through (0, 0, 1.2) normal (0, 0, 1) x (1, 0, 0)
  line L0 (15.0343, -19.5333) -> (15.0343, -15.8333) projected
  line L1 (6.2343, 5.1667) -> (15.0343, 5.1667)
  line L2 (15.0343, 5.1667) -> (15.0343, -16.8333)
  line L3 (15.0343, -16.8333) -> (6.2343, -16.8333)
  line L4 (6.2343, -16.8333) -> (6.2343, 5.1667)
  line L5 (6.2343, 4.1667) -> (8.376, 4.1667) projected
  line L6 (15.0343, -15.8333) -> (11.6926, -15.8333) projected
  line L7 (6.2343, -15.8333) -> (6.2343, 4.1667) projected
  point P0 (0, 0)
  dimension "d97" = 1
  dimension "d98" = 1
extrude "Extrusion15" cut sketch "Sketch18" along normal blind 25
sketch "Sketch19" plane through (0, 0, 6.2) normal (0, 0, 1) x (1, 0, 0)
  line L0 (13.9061, 9.6667) -> (16.2343, 9.6667)
  line L1 (16.2343, 9.6667) -> (16.2343, -21.3333)
  line L2 (16.2343, -21.3333) -> (13.9061, -21.3333)
  line L3 (13.9061, -21.3333) -> (13.9061, 9.6667)
  line L4 (-66.7657, 9.6667) -> (-64.4375, 9.6667)
  line L5 (-64.4375, 9.6667) -> (-64.4375, -21.3333)
  line L6 (-64.4375, -21.3333) -> (-66.7657, -21.3333)
  line L7 (-66.7657, -21.3333) -> (-66.7657, 9.6667)
  point P0 (0, 0)
extrude "Extrusion16" cut sketch "Sketch19" against normal blind 5
sketch "Sketch20" plane through (0, 0, 1.2) normal (0, 0, 1) x (1, 0, 0)
  line L0 (-73.7657, 14.1667) -> (16.2343, 14.1667)
  line L1 (16.2343, 14.1667) -> (16.2343, -25.8333)
  line L2 (16.2343, -25.8333) -> (-73.7657, -25.8333)
  line L3 (-73.7657, -25.8333) -> (-73.7657, 14.1667)
  line L4 (16.2343, 9.6667) -> (16.2343, 4.1667) projected
  line L5 (-66.7657, 9.6667) -> (16.2343, 9.6667) projected
  line L6 (-41.3548, -21.3333) -> (10.0343, -21.3333) projected
  line L7 (-66.7657, -21.3333) -> (-66.7657, 9.6667) projected
  line L8 (16.2343, 4.1667) -> (6.2343, 4.1667)
  line L9 (6.2343, 4.1667) -> (6.2343, -15.8333)
  line L10 (6.2343, -15.8333) -> (16.2343, -15.8333)
  line L11 (16.2343, -15.8333) -> (16.2343, 4.1667)
  point P0 (0, 0)
  dimension "d103" = 90
  dimension "d104" = 40
  dimension "d105" = 4.5
  dimension "d106" = 4.5
  dimension "d107" = 7
extrude "Extrusion17" add sketch "Sketch20" against normal blind 1.2 contours L0 L1 L8 L9 L10 L2 L3
fillet "Fillet4" radius 5 4 edges at (-73.7657, 14.1667, 0.6) (-73.7657, -25.8333, 0.6) (16.2343, -25.8333, 0.6) (16.2343, 14.1667, 0.6)
sketch "Sketch21" plane through (0, 0, 1.2) normal (0, 0, 1) x (1, 0, 0)
  line L0 (-65.7657, 6.1667) -> (-46.9656, 6.1667)
  line L1 (-46.9656, 6.1667) -> (-46.9656, -17.8333)
  line L2 (-46.9656, -17.8333) -> (-65.7657, -17.8333)
  line L3 (-65.7657, -17.8333) -> (-65.7657, 6.1667)
  line L4 (-68.7657, 14.1667) -> (11.2343, 14.1667) projected
  line L5 (11.2343, -25.8333) -> (-68.7657, -25.8333) projected
  line L6 (-73.7657, -20.8333) -> (-73.7657, 9.1667) projected
  circle A0 centre (-41.9656, 6.6038) radius 1.5 projected
  point P0 (0, 0)
  dimension "d111" = 8
  dimension "d112" = 8
  dimension "d113" = 8
  dimension "d114" = 5
extrude "Extrusion18" cut sketch "Sketch21" against normal blind 1.2 contours L0 L1 L2 L3
sketch "Sketch22" plane through (0, 0, 1.2) normal (0, 0, 1) x (1, 0, 0)
  line L0 (-38.9656, -10.8333) -> (-35.9656, -10.8333)
  line L1 (-35.9656, -10.8333) -> (-35.9656, -14.8333)
  line L2 (-35.9656, -14.8333) -> (-38.9656, -14.8333)
  line L3 (-38.9656, -14.8333) -> (-38.9656, -10.8333)
  line L4 (-46.9656, -17.8333) -> (-65.7657, -17.8333) projected
  circle A0 centre (-41.9656, -18.3962) radius 1.5 projected
  line L5 (11.2343, -25.8333) -> (-68.7657, -25.8333) projected
  point P0 (0, 0)
  dimension "d117" = 3
  dimension "d119" = 4
  dimension "d120" = 3
  dimension "d121" = 11
extrude "Extrusion19" cut sketch "Sketch22" against normal blind 1.2 contours L0 L1 L2 L3
properties part number "Case MCU"
